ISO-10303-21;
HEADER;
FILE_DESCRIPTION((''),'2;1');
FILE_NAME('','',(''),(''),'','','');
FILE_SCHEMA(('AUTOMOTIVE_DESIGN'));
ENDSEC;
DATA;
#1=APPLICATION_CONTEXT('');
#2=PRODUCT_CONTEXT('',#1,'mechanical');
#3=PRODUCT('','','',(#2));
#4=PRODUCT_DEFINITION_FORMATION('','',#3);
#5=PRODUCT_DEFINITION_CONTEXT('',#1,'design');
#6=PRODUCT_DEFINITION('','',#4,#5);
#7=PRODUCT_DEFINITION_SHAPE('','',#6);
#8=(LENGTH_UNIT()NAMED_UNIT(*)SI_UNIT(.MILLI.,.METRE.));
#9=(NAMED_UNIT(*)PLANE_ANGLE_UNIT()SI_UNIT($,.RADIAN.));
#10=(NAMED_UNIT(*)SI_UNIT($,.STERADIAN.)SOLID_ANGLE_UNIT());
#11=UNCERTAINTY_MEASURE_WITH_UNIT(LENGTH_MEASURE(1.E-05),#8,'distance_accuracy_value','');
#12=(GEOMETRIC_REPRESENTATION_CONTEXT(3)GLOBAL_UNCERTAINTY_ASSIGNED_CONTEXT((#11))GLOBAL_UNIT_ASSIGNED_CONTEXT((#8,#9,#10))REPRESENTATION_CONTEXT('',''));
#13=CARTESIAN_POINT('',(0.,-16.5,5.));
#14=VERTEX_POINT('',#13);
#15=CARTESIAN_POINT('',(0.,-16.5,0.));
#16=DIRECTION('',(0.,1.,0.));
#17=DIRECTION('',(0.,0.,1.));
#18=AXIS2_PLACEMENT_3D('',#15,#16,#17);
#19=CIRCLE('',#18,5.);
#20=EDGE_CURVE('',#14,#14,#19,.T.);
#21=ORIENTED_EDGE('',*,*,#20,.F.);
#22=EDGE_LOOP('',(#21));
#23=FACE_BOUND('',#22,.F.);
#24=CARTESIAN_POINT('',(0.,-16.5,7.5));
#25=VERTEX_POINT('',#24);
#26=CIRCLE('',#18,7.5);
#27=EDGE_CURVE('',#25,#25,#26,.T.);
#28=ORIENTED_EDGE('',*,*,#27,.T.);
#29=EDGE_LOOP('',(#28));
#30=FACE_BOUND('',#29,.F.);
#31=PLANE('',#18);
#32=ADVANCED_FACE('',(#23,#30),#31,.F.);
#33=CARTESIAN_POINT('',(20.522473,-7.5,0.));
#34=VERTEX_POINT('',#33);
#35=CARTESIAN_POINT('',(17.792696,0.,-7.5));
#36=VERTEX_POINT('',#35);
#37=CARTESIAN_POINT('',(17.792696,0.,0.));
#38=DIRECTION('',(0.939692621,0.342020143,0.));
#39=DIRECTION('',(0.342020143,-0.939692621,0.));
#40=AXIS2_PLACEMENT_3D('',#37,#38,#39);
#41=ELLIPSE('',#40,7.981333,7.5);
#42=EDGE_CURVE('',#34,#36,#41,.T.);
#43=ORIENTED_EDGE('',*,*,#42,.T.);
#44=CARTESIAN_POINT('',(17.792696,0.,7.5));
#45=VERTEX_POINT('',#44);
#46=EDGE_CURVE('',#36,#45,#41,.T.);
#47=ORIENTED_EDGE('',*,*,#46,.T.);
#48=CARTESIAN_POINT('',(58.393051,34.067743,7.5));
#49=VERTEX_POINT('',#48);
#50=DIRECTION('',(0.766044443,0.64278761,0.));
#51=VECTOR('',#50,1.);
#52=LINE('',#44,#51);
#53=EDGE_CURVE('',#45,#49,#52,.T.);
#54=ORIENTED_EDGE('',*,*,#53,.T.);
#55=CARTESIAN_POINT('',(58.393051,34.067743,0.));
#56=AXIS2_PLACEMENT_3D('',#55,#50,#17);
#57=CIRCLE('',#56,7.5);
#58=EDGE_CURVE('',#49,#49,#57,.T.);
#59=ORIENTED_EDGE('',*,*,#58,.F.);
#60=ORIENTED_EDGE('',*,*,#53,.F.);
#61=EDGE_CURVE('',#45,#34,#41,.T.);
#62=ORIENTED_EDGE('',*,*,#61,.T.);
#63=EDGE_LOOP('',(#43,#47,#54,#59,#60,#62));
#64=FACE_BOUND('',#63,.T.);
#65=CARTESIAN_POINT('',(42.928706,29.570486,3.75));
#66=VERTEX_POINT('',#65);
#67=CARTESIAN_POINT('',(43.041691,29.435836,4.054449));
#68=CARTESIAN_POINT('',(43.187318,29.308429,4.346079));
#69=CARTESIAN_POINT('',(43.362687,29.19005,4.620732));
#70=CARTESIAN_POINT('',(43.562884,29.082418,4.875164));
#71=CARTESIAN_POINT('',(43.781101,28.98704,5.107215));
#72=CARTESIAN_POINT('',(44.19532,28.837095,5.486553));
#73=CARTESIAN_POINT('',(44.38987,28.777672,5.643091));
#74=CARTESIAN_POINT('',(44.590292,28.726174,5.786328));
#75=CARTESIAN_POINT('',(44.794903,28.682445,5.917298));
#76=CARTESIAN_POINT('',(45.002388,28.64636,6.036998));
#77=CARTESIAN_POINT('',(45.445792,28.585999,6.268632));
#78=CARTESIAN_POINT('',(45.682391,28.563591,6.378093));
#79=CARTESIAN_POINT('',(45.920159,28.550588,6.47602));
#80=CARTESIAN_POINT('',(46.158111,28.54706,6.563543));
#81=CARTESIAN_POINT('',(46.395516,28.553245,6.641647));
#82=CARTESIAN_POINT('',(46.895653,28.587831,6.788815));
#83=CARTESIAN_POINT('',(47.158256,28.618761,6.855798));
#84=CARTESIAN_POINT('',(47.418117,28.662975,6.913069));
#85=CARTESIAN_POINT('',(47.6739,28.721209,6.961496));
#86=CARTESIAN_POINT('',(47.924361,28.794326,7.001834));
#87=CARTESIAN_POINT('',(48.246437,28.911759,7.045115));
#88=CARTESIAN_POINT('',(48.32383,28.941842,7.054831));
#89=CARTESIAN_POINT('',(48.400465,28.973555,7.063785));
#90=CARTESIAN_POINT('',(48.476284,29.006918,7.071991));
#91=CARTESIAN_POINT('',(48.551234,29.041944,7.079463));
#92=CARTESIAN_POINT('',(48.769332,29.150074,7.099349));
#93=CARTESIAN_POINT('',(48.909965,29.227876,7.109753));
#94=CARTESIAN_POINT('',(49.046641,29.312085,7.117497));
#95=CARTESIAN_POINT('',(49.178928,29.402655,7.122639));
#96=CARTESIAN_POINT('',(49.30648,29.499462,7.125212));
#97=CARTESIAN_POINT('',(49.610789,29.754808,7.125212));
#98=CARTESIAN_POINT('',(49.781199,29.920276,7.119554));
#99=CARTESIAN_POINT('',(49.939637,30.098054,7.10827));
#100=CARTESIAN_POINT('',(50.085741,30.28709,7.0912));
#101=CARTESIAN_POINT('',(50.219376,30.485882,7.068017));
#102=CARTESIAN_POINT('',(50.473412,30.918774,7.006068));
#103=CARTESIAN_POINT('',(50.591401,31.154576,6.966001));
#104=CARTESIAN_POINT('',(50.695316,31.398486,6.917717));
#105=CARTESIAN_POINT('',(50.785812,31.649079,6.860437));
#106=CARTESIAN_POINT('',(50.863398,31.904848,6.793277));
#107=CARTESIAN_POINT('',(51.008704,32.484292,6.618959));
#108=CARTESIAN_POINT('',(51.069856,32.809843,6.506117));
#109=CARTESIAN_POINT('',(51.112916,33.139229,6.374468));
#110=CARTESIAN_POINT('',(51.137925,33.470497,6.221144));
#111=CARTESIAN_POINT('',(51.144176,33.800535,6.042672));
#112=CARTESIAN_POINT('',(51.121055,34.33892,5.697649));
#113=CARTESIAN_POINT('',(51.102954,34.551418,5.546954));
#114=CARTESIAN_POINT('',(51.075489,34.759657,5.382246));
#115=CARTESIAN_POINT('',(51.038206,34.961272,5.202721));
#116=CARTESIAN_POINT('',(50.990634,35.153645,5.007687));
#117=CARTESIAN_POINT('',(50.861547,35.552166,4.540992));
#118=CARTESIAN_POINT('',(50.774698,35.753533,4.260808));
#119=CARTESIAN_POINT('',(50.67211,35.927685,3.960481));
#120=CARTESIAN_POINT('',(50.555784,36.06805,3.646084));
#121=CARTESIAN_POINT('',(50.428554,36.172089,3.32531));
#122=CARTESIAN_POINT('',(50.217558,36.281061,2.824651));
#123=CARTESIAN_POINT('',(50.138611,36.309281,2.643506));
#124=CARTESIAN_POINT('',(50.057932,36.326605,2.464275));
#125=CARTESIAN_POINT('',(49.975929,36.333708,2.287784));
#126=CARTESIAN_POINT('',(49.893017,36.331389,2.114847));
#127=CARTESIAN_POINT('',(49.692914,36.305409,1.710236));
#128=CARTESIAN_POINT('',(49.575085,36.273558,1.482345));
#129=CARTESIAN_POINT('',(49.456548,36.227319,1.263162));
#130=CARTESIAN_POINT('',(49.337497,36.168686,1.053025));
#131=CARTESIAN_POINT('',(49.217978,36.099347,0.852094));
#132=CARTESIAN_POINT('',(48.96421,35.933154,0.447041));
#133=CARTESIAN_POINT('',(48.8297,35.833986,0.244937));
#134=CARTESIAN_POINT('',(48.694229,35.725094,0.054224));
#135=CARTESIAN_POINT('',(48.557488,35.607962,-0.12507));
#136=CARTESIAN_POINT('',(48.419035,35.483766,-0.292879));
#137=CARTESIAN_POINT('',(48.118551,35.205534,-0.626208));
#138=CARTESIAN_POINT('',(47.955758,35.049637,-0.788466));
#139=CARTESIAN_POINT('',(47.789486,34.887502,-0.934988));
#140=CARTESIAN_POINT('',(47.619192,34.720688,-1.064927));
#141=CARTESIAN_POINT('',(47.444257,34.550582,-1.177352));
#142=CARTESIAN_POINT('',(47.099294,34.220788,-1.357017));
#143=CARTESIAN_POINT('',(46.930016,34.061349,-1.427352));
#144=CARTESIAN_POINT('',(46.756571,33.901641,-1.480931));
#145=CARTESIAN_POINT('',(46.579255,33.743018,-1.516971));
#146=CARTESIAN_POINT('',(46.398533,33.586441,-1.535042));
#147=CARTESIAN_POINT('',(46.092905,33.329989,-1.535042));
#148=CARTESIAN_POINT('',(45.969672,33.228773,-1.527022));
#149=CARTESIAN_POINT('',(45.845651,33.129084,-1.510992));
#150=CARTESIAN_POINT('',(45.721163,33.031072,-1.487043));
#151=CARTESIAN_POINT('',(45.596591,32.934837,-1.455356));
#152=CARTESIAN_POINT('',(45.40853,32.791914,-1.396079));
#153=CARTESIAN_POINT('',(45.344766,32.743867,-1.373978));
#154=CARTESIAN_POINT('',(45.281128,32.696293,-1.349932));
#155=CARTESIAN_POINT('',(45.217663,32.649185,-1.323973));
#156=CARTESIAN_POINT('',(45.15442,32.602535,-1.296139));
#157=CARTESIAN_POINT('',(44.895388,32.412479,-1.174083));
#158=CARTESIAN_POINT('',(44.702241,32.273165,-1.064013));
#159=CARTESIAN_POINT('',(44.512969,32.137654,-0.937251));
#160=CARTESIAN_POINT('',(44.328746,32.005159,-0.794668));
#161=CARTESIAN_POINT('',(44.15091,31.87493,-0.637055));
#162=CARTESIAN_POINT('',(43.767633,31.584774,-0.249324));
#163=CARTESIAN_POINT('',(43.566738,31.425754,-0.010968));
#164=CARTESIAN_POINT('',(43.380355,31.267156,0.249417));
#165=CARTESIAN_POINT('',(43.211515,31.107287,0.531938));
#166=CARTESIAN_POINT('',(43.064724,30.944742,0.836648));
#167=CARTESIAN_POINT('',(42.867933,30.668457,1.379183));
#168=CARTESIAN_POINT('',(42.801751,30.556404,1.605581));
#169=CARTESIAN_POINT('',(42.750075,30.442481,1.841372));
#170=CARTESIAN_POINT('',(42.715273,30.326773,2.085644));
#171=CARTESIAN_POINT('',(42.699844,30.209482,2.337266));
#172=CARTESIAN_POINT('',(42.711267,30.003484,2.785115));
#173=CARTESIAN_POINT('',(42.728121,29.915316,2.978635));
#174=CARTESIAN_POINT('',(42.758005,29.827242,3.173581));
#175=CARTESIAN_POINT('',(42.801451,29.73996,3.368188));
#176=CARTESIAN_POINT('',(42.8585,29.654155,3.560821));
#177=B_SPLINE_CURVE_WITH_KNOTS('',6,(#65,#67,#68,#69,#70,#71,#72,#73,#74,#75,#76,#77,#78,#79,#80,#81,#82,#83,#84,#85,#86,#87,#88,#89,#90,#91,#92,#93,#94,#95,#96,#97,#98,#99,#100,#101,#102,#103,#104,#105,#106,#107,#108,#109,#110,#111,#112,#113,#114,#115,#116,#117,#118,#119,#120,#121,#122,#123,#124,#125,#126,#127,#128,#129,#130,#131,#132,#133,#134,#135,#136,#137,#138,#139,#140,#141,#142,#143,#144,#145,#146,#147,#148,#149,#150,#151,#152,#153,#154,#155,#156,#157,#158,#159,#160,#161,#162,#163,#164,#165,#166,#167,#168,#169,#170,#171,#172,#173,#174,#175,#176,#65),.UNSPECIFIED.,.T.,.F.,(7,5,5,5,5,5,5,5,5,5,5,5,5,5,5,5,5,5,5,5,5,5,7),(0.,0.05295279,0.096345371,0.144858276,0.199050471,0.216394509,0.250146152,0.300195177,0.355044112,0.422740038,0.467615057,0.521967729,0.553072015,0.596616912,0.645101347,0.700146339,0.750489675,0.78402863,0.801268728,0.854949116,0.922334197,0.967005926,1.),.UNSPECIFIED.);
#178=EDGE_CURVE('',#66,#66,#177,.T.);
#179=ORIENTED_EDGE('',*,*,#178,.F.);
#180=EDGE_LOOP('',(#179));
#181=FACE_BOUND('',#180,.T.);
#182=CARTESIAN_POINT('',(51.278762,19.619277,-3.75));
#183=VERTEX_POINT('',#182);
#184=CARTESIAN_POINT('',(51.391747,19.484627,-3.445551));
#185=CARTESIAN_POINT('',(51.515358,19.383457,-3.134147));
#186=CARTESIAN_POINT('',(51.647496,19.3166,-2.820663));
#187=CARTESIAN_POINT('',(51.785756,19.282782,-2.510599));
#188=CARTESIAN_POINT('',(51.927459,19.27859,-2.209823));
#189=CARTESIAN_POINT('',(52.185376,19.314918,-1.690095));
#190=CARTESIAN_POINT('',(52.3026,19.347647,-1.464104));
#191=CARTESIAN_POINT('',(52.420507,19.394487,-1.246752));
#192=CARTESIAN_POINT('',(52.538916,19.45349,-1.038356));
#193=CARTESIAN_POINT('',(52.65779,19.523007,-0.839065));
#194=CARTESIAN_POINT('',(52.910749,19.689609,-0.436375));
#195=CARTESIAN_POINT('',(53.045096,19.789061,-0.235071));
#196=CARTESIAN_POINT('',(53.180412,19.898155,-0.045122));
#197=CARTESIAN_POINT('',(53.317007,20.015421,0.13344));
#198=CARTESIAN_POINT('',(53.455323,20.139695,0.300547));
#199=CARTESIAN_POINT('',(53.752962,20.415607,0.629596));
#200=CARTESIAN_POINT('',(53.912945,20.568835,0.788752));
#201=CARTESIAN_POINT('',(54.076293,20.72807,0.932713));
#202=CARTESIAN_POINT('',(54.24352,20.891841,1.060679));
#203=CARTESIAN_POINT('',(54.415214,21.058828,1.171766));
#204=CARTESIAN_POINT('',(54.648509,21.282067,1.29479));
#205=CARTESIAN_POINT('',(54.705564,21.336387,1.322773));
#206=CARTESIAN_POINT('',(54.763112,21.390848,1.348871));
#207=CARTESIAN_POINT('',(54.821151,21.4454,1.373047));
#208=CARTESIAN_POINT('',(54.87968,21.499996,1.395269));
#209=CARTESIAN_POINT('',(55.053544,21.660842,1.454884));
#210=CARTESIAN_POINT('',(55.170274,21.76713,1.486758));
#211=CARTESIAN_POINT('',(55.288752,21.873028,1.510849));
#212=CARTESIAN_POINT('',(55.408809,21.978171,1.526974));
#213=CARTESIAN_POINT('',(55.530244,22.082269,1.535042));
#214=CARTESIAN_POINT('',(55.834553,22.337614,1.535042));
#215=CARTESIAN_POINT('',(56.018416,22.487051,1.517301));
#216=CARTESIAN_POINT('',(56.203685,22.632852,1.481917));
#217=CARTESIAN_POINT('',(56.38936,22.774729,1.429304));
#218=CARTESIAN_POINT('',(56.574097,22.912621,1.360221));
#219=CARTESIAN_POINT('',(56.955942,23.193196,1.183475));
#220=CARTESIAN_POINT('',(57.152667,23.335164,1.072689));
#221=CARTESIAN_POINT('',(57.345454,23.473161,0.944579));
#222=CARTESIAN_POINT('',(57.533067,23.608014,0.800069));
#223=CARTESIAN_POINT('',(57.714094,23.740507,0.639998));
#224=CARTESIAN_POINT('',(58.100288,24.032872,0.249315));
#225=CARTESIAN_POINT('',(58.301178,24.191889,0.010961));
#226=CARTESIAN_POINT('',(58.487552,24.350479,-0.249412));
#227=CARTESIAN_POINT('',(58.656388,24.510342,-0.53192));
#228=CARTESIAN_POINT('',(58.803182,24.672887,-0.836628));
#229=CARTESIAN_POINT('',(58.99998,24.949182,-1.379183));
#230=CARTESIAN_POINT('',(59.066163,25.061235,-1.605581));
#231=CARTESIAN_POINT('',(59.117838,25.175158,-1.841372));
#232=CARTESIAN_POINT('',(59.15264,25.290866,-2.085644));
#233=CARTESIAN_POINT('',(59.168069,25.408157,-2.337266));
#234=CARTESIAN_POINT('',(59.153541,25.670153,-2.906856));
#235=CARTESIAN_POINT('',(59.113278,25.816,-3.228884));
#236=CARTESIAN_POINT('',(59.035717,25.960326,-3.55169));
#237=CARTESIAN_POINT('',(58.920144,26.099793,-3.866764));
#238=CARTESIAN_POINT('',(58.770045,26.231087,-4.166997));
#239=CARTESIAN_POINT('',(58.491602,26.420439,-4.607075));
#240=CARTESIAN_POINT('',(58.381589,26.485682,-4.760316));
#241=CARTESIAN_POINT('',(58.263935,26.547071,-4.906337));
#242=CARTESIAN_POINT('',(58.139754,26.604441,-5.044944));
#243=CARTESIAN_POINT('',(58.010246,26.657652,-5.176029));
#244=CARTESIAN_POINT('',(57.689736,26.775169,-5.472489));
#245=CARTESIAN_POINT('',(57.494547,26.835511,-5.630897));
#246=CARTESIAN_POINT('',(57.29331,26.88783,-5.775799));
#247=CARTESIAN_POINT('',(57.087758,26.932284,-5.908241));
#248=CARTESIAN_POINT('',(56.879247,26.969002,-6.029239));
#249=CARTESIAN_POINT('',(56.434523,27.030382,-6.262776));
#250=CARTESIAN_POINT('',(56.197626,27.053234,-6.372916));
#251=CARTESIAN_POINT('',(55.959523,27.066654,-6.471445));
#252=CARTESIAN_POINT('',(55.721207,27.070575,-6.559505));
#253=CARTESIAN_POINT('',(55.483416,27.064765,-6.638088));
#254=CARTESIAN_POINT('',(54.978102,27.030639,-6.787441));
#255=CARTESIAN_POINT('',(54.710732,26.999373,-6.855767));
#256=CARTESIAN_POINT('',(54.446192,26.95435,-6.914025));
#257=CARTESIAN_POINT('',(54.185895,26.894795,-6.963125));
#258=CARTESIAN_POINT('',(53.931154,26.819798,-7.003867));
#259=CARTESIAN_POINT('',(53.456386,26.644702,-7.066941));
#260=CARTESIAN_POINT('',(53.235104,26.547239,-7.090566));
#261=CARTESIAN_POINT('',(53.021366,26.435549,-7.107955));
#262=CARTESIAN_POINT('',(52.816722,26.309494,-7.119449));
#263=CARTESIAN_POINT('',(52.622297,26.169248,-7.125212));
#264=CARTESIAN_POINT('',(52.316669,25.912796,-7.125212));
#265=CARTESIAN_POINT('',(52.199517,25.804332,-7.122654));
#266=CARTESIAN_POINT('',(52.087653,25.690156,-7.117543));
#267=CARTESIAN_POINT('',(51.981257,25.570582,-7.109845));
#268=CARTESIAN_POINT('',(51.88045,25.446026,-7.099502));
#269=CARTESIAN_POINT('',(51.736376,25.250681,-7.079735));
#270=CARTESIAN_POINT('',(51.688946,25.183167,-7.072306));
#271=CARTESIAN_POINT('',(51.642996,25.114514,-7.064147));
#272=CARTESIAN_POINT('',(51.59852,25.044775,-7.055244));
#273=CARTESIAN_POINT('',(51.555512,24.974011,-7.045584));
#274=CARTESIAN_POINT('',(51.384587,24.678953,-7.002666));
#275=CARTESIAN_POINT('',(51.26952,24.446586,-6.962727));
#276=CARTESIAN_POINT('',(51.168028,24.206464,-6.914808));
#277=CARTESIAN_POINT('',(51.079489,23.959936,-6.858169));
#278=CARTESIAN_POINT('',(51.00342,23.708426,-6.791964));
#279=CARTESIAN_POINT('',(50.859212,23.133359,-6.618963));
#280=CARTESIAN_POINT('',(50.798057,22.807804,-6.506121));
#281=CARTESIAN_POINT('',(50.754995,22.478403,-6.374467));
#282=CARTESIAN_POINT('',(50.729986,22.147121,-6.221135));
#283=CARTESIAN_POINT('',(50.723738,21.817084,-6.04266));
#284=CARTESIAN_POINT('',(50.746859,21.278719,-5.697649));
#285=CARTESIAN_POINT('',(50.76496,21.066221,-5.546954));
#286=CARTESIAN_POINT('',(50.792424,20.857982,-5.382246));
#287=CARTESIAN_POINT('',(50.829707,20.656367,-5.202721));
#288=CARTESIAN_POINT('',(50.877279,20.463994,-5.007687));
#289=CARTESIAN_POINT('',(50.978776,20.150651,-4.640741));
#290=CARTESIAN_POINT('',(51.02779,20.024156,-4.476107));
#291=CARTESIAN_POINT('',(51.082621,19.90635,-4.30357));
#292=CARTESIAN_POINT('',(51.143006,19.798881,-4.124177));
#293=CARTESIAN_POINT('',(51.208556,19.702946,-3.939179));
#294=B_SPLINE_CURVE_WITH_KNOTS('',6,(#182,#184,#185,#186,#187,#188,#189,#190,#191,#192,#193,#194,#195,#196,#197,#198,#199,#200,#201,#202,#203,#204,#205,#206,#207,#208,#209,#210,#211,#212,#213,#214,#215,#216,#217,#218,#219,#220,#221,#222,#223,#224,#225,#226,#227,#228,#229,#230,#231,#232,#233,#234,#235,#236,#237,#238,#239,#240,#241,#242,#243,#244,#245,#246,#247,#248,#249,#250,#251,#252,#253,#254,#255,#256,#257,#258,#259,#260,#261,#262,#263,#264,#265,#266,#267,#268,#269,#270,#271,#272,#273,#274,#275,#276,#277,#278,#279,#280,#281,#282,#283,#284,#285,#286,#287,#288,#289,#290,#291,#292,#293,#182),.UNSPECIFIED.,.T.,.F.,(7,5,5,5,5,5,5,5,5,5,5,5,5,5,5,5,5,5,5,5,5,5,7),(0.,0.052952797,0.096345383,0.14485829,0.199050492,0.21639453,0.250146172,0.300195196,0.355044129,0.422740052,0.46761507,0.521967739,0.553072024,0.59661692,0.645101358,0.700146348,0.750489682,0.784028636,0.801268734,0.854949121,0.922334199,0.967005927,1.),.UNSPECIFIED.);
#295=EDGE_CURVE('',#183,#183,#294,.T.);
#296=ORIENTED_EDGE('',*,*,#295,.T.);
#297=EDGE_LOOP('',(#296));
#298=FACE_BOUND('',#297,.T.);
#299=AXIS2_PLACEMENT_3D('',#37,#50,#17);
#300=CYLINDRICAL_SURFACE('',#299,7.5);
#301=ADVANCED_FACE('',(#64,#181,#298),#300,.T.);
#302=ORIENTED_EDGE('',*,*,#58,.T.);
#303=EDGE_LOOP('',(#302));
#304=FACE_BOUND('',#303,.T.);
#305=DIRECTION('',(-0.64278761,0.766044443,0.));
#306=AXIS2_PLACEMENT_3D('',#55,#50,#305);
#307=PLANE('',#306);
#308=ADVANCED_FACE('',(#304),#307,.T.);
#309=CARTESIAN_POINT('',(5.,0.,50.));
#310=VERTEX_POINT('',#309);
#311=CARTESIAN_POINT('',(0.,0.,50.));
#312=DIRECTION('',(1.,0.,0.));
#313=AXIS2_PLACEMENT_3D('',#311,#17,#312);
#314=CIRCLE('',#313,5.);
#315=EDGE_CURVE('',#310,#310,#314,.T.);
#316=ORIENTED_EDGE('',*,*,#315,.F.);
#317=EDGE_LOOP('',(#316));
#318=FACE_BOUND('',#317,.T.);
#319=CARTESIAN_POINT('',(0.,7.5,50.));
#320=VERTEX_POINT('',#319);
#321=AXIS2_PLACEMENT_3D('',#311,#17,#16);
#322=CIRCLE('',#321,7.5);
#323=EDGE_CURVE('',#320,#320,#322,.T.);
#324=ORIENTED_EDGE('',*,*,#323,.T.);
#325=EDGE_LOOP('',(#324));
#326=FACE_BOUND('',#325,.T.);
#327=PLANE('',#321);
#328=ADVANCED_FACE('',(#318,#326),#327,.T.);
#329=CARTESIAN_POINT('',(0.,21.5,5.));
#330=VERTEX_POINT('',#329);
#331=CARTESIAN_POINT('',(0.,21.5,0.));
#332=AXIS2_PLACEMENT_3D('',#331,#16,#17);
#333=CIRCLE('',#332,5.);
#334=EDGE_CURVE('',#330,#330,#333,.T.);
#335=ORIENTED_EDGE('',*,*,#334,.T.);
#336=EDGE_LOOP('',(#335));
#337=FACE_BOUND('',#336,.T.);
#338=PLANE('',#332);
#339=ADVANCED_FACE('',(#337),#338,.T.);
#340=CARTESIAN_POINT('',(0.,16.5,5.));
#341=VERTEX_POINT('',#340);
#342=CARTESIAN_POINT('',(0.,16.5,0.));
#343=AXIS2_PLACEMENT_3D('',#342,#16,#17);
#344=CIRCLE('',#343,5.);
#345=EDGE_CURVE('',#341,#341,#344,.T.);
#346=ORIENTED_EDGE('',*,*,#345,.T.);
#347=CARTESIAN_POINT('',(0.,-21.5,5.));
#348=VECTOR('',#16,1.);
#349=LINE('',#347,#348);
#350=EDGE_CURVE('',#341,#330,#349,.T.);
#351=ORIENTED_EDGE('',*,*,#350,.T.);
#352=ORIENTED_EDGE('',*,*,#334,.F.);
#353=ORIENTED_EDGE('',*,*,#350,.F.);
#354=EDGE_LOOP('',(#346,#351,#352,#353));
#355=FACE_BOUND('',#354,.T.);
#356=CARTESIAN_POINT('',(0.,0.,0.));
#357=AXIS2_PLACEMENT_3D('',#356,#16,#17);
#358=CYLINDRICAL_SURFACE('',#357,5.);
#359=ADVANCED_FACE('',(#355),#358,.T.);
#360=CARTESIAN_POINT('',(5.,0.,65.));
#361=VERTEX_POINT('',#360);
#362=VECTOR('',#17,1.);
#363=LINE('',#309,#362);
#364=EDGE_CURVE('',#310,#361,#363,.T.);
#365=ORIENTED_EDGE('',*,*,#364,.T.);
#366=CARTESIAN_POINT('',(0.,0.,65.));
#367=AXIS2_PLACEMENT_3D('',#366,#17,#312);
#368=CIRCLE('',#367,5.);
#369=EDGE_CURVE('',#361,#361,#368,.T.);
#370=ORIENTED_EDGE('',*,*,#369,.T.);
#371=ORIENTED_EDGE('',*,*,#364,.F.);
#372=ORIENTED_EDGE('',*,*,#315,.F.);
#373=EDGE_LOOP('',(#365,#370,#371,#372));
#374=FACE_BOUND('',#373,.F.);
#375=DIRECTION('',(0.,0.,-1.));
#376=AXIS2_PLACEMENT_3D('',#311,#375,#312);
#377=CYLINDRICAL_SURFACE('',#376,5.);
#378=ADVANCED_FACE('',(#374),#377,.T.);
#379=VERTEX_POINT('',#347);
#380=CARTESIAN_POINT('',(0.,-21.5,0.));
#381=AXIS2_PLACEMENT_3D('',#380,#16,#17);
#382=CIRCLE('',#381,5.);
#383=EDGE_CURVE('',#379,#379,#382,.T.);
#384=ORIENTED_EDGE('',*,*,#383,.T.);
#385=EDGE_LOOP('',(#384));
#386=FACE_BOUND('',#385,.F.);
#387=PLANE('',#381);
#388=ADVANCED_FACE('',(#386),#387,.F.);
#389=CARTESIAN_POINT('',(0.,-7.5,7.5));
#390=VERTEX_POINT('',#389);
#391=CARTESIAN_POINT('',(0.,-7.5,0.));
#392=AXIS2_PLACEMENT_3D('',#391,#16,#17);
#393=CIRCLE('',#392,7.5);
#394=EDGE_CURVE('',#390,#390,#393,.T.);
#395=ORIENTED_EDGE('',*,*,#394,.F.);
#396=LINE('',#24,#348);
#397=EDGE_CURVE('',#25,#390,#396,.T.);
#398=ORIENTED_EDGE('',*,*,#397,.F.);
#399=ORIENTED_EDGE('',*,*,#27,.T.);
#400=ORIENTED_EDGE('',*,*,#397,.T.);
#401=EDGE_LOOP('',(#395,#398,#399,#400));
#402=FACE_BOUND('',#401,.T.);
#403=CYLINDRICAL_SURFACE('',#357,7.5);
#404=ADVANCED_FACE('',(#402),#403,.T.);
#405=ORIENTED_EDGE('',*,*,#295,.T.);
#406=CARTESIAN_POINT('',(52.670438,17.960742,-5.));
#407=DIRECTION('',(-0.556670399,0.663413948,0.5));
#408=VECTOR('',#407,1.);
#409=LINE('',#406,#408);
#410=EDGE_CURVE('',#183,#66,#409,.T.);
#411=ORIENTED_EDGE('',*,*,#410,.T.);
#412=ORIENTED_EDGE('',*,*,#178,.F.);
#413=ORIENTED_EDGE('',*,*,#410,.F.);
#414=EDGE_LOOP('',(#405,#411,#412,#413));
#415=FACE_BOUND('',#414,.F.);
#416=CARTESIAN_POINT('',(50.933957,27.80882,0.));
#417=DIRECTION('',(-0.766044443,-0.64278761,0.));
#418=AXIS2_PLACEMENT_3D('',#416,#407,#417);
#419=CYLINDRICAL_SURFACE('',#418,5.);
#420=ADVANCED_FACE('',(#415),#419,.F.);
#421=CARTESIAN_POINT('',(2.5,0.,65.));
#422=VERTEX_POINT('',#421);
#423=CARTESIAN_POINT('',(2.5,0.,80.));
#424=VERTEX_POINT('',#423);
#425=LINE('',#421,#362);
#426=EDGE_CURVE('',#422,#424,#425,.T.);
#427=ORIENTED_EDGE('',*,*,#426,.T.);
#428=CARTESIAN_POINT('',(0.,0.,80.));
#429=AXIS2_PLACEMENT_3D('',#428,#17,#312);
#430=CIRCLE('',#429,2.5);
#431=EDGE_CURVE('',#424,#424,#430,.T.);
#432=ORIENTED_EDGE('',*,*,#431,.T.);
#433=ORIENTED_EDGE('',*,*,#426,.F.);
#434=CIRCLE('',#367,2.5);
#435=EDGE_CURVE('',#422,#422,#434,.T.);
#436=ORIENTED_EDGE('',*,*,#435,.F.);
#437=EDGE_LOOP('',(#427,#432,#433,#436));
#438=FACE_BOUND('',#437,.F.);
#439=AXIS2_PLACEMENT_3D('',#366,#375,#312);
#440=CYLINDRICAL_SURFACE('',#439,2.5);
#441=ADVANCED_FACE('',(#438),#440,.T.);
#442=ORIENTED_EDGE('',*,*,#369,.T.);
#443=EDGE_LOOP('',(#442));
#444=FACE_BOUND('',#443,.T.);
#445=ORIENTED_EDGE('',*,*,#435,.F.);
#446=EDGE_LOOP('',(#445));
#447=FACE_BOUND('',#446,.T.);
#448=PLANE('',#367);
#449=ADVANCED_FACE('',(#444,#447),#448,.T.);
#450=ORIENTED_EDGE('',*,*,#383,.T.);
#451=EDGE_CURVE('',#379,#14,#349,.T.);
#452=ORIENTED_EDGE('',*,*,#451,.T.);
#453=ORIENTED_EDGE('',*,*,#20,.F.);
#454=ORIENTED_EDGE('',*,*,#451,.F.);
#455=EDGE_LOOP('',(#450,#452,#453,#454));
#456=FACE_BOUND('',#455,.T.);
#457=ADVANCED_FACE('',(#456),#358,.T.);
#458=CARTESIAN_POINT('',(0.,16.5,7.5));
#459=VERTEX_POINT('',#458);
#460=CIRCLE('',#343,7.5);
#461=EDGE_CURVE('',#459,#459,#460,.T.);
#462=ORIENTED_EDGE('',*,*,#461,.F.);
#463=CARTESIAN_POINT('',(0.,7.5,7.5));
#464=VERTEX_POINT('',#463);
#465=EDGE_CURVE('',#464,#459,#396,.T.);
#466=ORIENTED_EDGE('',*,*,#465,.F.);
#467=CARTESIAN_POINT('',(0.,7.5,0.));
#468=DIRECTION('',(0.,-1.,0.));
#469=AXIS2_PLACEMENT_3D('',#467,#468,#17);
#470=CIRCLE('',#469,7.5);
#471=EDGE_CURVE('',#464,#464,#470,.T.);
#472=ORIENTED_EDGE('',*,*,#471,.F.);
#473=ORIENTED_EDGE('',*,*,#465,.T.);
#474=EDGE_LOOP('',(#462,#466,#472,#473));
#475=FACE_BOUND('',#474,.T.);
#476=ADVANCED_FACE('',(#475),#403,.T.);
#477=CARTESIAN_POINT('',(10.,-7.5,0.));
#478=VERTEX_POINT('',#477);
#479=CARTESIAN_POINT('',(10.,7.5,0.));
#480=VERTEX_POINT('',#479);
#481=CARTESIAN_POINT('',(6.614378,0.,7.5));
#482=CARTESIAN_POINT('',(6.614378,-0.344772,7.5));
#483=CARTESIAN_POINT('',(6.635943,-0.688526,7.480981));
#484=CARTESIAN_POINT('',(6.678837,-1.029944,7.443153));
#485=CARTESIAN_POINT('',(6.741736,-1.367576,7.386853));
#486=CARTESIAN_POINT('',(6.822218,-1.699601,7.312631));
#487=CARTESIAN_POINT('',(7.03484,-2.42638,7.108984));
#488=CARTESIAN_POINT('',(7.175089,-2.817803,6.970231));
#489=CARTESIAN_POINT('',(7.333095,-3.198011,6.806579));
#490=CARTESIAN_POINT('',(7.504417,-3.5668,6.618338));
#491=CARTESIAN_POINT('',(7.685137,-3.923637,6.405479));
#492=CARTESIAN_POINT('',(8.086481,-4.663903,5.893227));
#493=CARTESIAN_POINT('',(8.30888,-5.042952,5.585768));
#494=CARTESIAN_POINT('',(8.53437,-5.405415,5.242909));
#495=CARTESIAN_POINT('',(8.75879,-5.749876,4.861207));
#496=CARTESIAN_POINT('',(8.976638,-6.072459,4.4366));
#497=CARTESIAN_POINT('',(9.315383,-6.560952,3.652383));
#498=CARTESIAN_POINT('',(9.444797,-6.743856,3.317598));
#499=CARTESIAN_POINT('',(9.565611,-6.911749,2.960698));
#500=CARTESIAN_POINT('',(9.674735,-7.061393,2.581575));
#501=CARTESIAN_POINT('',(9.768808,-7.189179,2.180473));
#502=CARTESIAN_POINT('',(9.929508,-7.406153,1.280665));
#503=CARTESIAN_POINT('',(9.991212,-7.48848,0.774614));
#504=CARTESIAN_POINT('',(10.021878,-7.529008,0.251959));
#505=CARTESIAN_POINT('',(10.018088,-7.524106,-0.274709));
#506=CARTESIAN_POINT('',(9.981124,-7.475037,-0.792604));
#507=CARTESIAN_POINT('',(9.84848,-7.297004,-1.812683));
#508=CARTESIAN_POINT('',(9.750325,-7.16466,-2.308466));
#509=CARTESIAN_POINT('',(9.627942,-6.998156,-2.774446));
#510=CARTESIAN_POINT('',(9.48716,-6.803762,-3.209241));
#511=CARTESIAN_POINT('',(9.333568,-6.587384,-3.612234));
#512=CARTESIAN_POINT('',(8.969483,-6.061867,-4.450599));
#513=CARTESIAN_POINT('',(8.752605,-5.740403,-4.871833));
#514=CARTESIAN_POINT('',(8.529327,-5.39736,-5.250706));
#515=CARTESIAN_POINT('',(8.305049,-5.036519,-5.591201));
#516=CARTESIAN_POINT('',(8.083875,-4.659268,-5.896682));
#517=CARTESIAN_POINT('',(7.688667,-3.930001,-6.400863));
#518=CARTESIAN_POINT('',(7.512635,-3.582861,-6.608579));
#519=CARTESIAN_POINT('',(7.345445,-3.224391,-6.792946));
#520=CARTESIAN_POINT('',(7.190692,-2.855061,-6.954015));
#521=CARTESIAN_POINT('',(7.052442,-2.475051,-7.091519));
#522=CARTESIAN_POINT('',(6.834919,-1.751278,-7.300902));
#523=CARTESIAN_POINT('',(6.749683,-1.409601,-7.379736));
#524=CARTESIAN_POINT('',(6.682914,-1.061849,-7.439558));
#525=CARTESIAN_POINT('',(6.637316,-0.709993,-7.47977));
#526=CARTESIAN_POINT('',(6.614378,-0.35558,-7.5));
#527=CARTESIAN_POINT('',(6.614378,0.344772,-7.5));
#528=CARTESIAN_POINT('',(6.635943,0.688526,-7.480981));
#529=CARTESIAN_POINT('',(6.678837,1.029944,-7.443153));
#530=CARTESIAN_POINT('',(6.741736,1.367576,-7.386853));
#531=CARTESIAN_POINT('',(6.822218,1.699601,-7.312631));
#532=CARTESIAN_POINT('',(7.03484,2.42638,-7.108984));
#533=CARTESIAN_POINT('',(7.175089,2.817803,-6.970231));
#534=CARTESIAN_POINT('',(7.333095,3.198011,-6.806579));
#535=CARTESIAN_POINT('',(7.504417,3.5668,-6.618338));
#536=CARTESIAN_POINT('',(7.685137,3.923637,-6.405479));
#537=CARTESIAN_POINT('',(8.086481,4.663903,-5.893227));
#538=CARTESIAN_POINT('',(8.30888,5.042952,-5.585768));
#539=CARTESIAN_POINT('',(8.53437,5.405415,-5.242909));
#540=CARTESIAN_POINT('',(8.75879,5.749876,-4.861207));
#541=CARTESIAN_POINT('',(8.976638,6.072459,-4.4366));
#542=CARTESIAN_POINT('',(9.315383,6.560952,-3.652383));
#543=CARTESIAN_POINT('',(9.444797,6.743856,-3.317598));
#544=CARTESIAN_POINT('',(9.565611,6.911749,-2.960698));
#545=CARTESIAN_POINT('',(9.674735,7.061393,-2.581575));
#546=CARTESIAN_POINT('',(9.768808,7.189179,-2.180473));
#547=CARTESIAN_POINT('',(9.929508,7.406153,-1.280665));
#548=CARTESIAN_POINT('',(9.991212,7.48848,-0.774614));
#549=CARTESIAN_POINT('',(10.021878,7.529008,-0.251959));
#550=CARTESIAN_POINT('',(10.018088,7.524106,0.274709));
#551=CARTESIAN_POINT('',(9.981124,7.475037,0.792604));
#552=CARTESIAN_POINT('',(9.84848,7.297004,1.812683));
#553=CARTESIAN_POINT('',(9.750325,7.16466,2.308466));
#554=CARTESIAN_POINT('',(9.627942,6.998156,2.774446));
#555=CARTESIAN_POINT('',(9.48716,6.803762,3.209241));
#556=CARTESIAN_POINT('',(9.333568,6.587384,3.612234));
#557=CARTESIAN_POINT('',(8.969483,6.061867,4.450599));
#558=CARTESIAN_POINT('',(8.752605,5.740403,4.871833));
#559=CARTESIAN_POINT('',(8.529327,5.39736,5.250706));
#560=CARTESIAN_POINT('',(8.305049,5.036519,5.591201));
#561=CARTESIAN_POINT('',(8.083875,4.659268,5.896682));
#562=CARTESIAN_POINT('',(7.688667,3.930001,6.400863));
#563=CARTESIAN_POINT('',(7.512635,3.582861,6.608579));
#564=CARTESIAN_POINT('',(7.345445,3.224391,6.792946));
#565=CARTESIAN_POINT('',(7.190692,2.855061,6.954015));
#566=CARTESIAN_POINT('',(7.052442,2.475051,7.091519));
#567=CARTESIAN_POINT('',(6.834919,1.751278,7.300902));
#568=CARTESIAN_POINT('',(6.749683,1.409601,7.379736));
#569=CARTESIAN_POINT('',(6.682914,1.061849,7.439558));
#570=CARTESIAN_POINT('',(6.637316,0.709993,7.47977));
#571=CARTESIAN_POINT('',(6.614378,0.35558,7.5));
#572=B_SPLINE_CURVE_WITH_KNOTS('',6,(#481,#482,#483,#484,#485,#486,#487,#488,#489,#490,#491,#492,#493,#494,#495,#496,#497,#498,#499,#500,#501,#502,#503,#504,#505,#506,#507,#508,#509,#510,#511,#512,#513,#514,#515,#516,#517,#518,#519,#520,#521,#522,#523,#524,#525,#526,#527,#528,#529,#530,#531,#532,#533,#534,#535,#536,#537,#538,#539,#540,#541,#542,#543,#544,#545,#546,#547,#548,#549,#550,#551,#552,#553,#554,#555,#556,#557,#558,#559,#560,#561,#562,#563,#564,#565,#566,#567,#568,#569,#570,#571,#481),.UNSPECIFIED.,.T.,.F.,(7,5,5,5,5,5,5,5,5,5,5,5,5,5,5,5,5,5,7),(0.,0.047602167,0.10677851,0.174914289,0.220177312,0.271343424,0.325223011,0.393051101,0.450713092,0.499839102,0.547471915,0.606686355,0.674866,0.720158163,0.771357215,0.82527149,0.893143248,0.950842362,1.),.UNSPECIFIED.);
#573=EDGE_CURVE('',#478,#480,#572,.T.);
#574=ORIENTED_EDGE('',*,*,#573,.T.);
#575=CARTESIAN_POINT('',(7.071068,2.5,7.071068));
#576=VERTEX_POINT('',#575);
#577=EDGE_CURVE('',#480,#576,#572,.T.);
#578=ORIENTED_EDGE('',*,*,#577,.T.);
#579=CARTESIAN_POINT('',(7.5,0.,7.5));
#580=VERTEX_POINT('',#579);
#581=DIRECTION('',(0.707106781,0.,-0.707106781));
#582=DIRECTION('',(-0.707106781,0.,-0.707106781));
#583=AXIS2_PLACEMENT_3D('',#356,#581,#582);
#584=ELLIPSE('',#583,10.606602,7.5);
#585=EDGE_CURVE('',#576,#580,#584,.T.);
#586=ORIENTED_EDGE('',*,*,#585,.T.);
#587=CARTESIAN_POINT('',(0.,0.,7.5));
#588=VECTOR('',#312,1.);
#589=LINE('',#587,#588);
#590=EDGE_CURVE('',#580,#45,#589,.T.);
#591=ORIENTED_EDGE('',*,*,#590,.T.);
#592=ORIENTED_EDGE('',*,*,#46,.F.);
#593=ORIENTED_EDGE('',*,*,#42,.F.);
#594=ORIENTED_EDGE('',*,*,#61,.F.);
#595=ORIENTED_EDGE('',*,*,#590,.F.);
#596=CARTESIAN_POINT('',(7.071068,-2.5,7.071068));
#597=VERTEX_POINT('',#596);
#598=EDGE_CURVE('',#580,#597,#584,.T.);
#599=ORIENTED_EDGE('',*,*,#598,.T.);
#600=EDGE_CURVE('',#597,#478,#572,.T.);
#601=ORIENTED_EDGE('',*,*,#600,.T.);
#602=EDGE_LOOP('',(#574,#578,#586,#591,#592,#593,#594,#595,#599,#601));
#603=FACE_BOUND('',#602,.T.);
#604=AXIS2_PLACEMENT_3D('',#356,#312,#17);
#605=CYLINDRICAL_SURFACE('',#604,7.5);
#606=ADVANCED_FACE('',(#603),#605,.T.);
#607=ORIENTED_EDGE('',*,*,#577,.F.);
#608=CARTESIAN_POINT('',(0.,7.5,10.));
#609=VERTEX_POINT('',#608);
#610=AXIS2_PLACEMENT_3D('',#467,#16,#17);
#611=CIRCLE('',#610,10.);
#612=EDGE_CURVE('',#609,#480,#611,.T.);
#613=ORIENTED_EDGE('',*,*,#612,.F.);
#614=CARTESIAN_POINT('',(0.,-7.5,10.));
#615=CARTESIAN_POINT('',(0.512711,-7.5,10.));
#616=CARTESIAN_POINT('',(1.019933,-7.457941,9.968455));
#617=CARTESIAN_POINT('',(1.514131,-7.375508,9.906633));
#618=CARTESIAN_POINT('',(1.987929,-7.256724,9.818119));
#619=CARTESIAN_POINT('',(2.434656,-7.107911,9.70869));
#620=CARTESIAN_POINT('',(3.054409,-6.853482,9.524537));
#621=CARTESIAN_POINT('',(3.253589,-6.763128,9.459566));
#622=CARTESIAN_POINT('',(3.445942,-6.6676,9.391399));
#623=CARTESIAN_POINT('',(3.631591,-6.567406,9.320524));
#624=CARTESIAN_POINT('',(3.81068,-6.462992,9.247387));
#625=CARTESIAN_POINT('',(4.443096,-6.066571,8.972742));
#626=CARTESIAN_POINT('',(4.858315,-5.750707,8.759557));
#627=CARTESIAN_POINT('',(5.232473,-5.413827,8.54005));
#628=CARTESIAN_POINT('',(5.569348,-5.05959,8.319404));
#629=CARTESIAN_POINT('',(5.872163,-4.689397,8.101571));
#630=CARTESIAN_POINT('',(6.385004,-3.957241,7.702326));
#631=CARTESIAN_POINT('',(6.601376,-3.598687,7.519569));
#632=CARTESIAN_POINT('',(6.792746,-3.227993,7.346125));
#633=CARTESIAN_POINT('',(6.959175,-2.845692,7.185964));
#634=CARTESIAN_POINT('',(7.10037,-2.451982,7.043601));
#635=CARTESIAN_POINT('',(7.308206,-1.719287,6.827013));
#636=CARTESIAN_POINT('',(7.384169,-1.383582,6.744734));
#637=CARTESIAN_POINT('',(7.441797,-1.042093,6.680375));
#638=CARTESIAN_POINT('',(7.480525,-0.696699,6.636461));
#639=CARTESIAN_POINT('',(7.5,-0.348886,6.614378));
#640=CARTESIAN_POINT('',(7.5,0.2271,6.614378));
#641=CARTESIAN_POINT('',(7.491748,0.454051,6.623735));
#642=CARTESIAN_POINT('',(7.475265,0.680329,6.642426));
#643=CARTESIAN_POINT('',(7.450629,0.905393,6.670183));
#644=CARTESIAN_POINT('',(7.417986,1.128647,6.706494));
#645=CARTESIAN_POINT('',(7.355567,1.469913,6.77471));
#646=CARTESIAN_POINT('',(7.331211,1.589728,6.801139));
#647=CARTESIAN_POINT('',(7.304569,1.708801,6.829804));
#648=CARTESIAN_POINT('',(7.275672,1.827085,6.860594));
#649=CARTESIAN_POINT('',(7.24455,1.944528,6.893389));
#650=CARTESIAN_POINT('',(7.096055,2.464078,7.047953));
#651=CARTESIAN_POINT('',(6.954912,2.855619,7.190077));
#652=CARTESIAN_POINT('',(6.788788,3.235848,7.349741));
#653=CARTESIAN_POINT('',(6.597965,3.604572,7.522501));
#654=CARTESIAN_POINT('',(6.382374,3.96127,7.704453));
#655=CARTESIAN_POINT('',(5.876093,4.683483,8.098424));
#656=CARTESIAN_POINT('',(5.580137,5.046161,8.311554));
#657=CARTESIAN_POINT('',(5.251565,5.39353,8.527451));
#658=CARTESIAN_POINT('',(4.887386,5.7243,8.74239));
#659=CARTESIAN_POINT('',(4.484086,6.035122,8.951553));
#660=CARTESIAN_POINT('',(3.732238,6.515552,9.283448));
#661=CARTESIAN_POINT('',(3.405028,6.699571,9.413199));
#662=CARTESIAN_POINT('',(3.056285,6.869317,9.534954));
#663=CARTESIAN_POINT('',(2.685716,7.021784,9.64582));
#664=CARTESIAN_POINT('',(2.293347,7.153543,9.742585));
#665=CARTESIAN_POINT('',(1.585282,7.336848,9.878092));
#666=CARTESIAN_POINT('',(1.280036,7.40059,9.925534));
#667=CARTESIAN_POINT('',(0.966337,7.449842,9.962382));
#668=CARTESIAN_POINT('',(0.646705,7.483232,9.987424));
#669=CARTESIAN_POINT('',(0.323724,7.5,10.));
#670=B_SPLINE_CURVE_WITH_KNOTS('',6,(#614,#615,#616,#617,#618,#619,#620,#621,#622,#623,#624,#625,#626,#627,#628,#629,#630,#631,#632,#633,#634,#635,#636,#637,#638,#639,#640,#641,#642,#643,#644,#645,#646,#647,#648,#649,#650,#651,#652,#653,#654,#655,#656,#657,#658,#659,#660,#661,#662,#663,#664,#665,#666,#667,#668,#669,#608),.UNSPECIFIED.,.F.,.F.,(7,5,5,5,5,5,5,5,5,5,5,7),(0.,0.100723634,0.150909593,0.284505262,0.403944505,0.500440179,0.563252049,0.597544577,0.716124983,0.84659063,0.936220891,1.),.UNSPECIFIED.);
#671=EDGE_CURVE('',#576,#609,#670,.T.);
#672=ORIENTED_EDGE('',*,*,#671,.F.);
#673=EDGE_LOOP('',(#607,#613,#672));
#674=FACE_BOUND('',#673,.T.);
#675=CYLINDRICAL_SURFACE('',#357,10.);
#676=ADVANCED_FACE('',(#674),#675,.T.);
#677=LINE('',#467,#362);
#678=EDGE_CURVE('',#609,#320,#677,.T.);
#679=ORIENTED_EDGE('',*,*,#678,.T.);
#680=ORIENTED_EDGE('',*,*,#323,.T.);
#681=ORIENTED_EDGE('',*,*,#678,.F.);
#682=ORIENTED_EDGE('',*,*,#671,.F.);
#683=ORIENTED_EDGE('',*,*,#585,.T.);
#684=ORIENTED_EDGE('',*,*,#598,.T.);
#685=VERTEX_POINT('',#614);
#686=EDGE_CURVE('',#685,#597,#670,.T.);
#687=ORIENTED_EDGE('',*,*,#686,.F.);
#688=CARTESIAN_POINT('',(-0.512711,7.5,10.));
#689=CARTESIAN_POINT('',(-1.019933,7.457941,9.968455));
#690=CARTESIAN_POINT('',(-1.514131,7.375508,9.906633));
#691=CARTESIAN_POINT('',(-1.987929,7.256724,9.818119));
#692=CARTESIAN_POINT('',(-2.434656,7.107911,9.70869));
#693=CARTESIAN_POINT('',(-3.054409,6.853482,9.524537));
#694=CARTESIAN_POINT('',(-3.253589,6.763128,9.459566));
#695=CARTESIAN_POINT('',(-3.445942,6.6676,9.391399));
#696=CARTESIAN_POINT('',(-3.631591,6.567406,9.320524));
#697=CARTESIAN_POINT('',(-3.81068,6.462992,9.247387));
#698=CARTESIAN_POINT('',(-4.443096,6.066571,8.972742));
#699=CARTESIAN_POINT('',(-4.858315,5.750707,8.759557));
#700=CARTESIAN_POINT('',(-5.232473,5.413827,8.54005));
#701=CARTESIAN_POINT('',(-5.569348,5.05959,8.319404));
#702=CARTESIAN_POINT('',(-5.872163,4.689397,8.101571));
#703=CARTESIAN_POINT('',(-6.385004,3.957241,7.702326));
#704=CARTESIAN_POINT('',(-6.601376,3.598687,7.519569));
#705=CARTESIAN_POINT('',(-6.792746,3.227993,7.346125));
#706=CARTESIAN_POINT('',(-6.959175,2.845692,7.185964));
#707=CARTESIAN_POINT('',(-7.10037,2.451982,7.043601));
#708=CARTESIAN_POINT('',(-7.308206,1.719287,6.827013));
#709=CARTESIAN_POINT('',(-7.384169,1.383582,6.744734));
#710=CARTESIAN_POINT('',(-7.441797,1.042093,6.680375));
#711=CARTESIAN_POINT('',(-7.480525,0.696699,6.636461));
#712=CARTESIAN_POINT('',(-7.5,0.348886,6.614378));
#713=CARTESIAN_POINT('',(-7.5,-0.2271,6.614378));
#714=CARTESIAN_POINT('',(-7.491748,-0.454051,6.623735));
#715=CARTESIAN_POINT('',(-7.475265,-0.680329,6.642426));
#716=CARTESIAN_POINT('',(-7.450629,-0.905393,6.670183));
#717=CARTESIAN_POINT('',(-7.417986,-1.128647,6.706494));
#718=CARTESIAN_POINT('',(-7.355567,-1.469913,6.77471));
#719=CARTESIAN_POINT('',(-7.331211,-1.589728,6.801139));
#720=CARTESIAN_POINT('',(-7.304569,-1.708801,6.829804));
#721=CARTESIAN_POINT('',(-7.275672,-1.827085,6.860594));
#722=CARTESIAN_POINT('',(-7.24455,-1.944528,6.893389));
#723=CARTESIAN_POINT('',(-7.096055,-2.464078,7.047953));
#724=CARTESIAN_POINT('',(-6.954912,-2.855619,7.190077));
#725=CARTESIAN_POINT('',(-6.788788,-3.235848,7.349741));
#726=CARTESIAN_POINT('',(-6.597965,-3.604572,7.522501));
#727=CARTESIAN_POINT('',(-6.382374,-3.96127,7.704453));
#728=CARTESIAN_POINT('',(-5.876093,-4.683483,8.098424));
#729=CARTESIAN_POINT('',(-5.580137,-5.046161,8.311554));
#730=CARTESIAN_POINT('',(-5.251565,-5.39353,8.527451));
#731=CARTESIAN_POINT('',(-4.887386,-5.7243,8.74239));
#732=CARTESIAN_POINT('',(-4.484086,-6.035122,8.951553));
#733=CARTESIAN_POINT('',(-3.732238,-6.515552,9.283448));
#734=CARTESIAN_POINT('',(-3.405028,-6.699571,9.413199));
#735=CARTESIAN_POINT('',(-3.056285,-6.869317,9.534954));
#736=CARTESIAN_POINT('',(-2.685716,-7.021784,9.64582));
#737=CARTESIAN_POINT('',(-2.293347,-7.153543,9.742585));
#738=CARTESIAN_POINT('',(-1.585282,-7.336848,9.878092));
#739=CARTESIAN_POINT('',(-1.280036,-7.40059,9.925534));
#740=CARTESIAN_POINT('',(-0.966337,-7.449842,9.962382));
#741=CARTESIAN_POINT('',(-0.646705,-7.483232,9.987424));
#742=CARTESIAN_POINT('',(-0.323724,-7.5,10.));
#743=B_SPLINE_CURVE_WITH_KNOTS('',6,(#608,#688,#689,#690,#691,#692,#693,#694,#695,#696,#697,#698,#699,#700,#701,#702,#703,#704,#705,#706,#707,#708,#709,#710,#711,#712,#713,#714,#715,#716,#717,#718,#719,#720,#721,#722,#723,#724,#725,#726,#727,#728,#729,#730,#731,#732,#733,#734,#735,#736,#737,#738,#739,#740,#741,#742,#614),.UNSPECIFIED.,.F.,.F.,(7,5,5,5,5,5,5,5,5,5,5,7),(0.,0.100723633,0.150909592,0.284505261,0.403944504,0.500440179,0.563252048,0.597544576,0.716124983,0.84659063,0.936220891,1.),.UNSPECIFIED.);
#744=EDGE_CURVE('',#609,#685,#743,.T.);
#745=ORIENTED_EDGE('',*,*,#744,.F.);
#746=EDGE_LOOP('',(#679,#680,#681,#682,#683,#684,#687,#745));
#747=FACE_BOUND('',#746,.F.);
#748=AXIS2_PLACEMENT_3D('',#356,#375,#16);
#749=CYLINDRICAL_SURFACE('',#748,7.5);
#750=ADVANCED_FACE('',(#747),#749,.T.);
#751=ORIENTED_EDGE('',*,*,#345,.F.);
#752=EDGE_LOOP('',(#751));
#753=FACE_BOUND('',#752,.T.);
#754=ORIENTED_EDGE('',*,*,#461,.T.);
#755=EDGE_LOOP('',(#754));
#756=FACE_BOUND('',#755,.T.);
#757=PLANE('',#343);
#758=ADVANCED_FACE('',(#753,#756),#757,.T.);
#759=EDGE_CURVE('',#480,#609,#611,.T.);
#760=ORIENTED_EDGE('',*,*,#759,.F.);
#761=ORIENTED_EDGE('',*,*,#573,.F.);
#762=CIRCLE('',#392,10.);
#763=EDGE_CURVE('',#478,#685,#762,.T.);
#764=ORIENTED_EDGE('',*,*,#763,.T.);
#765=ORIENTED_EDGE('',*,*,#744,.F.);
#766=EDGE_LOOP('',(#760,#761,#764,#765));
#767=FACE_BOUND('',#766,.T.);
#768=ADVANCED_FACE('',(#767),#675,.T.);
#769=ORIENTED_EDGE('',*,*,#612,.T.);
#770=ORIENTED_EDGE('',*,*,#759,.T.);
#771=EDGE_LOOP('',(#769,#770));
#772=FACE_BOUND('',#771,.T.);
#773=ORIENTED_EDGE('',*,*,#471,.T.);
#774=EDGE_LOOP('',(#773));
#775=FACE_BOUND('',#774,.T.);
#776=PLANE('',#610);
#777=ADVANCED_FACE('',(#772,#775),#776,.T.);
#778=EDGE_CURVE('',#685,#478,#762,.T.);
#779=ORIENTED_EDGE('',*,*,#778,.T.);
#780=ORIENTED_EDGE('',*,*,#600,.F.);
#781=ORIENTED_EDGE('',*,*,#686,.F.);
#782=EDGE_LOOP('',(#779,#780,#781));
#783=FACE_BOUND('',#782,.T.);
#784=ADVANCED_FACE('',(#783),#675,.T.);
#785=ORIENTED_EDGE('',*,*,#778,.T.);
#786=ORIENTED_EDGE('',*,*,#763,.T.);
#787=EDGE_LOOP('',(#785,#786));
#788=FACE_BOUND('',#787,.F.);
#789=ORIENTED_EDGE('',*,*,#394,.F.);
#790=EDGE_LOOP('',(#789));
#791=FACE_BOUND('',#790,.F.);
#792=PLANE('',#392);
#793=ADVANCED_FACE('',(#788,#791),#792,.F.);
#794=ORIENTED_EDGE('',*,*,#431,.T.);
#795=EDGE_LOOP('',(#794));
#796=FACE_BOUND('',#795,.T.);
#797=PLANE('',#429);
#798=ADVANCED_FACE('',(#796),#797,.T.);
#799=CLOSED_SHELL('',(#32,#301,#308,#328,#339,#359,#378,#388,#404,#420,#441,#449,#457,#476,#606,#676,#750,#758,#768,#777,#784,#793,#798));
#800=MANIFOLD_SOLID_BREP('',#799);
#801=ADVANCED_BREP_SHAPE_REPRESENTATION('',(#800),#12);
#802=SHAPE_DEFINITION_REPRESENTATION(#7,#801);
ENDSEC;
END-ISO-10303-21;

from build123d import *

# Parameters (mm, degrees)
IZIM2_R                     = 5
Y_KSEKLIK_EKSTR_ZYON2_DEPTH = 21.5
IZIM2_5_R                   = 7.5
IZIM2_5_R_2                 = 5
Y_KSEKLIK_EKSTR_ZYON3_DEPTH = 16.5
IZIM18_R                    = 10
Y_KSEKLIK_EKSTR_ZYON6_DEPTH = 7.5
IZIM3_R                     = 7.5
Y_KSEKLIK_EKSTR_ZYON4_DEPTH = 50
S_P_R4_PROFILE_R            = 7.5
IZIM42_R                    = 5
KES_EKSTR_ZYON5_DEPTH       = 10
IZIM43_R                    = 5
Y_KSEKLIK_EKSTR_ZYON7_DEPTH = 15
IZIM44_R                    = 2.5
Y_KSEKLIK_EKSTR_ZYON8_DEPTH = 15


with BuildPart() as part:
    # Çizim2 → Yükseklik-Ekstrüzyon2 (new, symmetric)
    with BuildSketch(Plane(origin=(0, 0, 0), x_dir=(1, 0, 0), z_dir=(0, 1, 0))):
        Circle(IZIM2_R)
    extrude(amount=Y_KSEKLIK_EKSTR_ZYON2_DEPTH, both=True)

    # Çizim2<5> → Yükseklik-Ekstrüzyon3 (add, symmetric)
    with BuildSketch(Plane(origin=(0, 0, 0), x_dir=(1, 0, 0), z_dir=(0, 1, 0))):
        Circle(IZIM2_5_R)
        Circle(IZIM2_5_R_2, mode=Mode.SUBTRACT)
    extrude(amount=Y_KSEKLIK_EKSTR_ZYON3_DEPTH, both=True)

    # Çizim18 → Yükseklik-Ekstrüzyon6 (add, symmetric)
    with BuildSketch(Plane(origin=(0, 0, 0), x_dir=(1, 0, 0), z_dir=(0, 1, 0))):
        Circle(IZIM18_R)
    extrude(amount=Y_KSEKLIK_EKSTR_ZYON6_DEPTH, both=True)

    # Çizim3 → Yükseklik-Ekstrüzyon4 (add)
    with BuildSketch(Plane.XY):
        Circle(IZIM3_R)
    extrude(amount=Y_KSEKLIK_EKSTR_ZYON4_DEPTH)

    # Süpür4: sweep along a path in Çizim22
    with BuildLine(Plane.XY) as s_p_r4_path:
        Line((0, 0), (17.792695878, 0))
        Line((17.792695878, 0), (58.393051363, 34.067743313))
    # Süpür4 profile (on start of the path) → Süpür4 (sweep)
    with BuildSketch(Plane(origin=(0, 0, 0), x_dir=(0, 0, 1), z_dir=(1, 0, 0))):
        Circle(S_P_R4_PROFILE_R)
    sweep(path=s_p_r4_path.line, transition=Transition.RIGHT)

    # Çizim42 → Kes-Ekstrüzyon5 (cut, symmetric)
    with BuildSketch(Plane(origin=(5.513634999, -6.570894318, -4.952333559), x_dir=(0.8267965189633342, 0.3839166530668254, 0.411114971422934), z_dir=(-0.5566703992264205, 0.6634139481689367, 0.500000000000001))):
        with Locations((52.788286905, 21.97481992)):
            Circle(IZIM42_R)
    extrude(amount=KES_EKSTR_ZYON5_DEPTH, both=True, mode=Mode.SUBTRACT)

    # Çizim43 → Yükseklik-Ekstrüzyon7 (add)
    with BuildSketch(Plane.XY.offset(50)):
        Circle(IZIM43_R)
    extrude(amount=Y_KSEKLIK_EKSTR_ZYON7_DEPTH)

    # Çizim44 → Yükseklik-Ekstrüzyon8 (add)
    with BuildSketch(Plane.XY.offset(65)):
        Circle(IZIM44_R)
    extrude(amount=Y_KSEKLIK_EKSTR_ZYON8_DEPTH)


solid = part.part
